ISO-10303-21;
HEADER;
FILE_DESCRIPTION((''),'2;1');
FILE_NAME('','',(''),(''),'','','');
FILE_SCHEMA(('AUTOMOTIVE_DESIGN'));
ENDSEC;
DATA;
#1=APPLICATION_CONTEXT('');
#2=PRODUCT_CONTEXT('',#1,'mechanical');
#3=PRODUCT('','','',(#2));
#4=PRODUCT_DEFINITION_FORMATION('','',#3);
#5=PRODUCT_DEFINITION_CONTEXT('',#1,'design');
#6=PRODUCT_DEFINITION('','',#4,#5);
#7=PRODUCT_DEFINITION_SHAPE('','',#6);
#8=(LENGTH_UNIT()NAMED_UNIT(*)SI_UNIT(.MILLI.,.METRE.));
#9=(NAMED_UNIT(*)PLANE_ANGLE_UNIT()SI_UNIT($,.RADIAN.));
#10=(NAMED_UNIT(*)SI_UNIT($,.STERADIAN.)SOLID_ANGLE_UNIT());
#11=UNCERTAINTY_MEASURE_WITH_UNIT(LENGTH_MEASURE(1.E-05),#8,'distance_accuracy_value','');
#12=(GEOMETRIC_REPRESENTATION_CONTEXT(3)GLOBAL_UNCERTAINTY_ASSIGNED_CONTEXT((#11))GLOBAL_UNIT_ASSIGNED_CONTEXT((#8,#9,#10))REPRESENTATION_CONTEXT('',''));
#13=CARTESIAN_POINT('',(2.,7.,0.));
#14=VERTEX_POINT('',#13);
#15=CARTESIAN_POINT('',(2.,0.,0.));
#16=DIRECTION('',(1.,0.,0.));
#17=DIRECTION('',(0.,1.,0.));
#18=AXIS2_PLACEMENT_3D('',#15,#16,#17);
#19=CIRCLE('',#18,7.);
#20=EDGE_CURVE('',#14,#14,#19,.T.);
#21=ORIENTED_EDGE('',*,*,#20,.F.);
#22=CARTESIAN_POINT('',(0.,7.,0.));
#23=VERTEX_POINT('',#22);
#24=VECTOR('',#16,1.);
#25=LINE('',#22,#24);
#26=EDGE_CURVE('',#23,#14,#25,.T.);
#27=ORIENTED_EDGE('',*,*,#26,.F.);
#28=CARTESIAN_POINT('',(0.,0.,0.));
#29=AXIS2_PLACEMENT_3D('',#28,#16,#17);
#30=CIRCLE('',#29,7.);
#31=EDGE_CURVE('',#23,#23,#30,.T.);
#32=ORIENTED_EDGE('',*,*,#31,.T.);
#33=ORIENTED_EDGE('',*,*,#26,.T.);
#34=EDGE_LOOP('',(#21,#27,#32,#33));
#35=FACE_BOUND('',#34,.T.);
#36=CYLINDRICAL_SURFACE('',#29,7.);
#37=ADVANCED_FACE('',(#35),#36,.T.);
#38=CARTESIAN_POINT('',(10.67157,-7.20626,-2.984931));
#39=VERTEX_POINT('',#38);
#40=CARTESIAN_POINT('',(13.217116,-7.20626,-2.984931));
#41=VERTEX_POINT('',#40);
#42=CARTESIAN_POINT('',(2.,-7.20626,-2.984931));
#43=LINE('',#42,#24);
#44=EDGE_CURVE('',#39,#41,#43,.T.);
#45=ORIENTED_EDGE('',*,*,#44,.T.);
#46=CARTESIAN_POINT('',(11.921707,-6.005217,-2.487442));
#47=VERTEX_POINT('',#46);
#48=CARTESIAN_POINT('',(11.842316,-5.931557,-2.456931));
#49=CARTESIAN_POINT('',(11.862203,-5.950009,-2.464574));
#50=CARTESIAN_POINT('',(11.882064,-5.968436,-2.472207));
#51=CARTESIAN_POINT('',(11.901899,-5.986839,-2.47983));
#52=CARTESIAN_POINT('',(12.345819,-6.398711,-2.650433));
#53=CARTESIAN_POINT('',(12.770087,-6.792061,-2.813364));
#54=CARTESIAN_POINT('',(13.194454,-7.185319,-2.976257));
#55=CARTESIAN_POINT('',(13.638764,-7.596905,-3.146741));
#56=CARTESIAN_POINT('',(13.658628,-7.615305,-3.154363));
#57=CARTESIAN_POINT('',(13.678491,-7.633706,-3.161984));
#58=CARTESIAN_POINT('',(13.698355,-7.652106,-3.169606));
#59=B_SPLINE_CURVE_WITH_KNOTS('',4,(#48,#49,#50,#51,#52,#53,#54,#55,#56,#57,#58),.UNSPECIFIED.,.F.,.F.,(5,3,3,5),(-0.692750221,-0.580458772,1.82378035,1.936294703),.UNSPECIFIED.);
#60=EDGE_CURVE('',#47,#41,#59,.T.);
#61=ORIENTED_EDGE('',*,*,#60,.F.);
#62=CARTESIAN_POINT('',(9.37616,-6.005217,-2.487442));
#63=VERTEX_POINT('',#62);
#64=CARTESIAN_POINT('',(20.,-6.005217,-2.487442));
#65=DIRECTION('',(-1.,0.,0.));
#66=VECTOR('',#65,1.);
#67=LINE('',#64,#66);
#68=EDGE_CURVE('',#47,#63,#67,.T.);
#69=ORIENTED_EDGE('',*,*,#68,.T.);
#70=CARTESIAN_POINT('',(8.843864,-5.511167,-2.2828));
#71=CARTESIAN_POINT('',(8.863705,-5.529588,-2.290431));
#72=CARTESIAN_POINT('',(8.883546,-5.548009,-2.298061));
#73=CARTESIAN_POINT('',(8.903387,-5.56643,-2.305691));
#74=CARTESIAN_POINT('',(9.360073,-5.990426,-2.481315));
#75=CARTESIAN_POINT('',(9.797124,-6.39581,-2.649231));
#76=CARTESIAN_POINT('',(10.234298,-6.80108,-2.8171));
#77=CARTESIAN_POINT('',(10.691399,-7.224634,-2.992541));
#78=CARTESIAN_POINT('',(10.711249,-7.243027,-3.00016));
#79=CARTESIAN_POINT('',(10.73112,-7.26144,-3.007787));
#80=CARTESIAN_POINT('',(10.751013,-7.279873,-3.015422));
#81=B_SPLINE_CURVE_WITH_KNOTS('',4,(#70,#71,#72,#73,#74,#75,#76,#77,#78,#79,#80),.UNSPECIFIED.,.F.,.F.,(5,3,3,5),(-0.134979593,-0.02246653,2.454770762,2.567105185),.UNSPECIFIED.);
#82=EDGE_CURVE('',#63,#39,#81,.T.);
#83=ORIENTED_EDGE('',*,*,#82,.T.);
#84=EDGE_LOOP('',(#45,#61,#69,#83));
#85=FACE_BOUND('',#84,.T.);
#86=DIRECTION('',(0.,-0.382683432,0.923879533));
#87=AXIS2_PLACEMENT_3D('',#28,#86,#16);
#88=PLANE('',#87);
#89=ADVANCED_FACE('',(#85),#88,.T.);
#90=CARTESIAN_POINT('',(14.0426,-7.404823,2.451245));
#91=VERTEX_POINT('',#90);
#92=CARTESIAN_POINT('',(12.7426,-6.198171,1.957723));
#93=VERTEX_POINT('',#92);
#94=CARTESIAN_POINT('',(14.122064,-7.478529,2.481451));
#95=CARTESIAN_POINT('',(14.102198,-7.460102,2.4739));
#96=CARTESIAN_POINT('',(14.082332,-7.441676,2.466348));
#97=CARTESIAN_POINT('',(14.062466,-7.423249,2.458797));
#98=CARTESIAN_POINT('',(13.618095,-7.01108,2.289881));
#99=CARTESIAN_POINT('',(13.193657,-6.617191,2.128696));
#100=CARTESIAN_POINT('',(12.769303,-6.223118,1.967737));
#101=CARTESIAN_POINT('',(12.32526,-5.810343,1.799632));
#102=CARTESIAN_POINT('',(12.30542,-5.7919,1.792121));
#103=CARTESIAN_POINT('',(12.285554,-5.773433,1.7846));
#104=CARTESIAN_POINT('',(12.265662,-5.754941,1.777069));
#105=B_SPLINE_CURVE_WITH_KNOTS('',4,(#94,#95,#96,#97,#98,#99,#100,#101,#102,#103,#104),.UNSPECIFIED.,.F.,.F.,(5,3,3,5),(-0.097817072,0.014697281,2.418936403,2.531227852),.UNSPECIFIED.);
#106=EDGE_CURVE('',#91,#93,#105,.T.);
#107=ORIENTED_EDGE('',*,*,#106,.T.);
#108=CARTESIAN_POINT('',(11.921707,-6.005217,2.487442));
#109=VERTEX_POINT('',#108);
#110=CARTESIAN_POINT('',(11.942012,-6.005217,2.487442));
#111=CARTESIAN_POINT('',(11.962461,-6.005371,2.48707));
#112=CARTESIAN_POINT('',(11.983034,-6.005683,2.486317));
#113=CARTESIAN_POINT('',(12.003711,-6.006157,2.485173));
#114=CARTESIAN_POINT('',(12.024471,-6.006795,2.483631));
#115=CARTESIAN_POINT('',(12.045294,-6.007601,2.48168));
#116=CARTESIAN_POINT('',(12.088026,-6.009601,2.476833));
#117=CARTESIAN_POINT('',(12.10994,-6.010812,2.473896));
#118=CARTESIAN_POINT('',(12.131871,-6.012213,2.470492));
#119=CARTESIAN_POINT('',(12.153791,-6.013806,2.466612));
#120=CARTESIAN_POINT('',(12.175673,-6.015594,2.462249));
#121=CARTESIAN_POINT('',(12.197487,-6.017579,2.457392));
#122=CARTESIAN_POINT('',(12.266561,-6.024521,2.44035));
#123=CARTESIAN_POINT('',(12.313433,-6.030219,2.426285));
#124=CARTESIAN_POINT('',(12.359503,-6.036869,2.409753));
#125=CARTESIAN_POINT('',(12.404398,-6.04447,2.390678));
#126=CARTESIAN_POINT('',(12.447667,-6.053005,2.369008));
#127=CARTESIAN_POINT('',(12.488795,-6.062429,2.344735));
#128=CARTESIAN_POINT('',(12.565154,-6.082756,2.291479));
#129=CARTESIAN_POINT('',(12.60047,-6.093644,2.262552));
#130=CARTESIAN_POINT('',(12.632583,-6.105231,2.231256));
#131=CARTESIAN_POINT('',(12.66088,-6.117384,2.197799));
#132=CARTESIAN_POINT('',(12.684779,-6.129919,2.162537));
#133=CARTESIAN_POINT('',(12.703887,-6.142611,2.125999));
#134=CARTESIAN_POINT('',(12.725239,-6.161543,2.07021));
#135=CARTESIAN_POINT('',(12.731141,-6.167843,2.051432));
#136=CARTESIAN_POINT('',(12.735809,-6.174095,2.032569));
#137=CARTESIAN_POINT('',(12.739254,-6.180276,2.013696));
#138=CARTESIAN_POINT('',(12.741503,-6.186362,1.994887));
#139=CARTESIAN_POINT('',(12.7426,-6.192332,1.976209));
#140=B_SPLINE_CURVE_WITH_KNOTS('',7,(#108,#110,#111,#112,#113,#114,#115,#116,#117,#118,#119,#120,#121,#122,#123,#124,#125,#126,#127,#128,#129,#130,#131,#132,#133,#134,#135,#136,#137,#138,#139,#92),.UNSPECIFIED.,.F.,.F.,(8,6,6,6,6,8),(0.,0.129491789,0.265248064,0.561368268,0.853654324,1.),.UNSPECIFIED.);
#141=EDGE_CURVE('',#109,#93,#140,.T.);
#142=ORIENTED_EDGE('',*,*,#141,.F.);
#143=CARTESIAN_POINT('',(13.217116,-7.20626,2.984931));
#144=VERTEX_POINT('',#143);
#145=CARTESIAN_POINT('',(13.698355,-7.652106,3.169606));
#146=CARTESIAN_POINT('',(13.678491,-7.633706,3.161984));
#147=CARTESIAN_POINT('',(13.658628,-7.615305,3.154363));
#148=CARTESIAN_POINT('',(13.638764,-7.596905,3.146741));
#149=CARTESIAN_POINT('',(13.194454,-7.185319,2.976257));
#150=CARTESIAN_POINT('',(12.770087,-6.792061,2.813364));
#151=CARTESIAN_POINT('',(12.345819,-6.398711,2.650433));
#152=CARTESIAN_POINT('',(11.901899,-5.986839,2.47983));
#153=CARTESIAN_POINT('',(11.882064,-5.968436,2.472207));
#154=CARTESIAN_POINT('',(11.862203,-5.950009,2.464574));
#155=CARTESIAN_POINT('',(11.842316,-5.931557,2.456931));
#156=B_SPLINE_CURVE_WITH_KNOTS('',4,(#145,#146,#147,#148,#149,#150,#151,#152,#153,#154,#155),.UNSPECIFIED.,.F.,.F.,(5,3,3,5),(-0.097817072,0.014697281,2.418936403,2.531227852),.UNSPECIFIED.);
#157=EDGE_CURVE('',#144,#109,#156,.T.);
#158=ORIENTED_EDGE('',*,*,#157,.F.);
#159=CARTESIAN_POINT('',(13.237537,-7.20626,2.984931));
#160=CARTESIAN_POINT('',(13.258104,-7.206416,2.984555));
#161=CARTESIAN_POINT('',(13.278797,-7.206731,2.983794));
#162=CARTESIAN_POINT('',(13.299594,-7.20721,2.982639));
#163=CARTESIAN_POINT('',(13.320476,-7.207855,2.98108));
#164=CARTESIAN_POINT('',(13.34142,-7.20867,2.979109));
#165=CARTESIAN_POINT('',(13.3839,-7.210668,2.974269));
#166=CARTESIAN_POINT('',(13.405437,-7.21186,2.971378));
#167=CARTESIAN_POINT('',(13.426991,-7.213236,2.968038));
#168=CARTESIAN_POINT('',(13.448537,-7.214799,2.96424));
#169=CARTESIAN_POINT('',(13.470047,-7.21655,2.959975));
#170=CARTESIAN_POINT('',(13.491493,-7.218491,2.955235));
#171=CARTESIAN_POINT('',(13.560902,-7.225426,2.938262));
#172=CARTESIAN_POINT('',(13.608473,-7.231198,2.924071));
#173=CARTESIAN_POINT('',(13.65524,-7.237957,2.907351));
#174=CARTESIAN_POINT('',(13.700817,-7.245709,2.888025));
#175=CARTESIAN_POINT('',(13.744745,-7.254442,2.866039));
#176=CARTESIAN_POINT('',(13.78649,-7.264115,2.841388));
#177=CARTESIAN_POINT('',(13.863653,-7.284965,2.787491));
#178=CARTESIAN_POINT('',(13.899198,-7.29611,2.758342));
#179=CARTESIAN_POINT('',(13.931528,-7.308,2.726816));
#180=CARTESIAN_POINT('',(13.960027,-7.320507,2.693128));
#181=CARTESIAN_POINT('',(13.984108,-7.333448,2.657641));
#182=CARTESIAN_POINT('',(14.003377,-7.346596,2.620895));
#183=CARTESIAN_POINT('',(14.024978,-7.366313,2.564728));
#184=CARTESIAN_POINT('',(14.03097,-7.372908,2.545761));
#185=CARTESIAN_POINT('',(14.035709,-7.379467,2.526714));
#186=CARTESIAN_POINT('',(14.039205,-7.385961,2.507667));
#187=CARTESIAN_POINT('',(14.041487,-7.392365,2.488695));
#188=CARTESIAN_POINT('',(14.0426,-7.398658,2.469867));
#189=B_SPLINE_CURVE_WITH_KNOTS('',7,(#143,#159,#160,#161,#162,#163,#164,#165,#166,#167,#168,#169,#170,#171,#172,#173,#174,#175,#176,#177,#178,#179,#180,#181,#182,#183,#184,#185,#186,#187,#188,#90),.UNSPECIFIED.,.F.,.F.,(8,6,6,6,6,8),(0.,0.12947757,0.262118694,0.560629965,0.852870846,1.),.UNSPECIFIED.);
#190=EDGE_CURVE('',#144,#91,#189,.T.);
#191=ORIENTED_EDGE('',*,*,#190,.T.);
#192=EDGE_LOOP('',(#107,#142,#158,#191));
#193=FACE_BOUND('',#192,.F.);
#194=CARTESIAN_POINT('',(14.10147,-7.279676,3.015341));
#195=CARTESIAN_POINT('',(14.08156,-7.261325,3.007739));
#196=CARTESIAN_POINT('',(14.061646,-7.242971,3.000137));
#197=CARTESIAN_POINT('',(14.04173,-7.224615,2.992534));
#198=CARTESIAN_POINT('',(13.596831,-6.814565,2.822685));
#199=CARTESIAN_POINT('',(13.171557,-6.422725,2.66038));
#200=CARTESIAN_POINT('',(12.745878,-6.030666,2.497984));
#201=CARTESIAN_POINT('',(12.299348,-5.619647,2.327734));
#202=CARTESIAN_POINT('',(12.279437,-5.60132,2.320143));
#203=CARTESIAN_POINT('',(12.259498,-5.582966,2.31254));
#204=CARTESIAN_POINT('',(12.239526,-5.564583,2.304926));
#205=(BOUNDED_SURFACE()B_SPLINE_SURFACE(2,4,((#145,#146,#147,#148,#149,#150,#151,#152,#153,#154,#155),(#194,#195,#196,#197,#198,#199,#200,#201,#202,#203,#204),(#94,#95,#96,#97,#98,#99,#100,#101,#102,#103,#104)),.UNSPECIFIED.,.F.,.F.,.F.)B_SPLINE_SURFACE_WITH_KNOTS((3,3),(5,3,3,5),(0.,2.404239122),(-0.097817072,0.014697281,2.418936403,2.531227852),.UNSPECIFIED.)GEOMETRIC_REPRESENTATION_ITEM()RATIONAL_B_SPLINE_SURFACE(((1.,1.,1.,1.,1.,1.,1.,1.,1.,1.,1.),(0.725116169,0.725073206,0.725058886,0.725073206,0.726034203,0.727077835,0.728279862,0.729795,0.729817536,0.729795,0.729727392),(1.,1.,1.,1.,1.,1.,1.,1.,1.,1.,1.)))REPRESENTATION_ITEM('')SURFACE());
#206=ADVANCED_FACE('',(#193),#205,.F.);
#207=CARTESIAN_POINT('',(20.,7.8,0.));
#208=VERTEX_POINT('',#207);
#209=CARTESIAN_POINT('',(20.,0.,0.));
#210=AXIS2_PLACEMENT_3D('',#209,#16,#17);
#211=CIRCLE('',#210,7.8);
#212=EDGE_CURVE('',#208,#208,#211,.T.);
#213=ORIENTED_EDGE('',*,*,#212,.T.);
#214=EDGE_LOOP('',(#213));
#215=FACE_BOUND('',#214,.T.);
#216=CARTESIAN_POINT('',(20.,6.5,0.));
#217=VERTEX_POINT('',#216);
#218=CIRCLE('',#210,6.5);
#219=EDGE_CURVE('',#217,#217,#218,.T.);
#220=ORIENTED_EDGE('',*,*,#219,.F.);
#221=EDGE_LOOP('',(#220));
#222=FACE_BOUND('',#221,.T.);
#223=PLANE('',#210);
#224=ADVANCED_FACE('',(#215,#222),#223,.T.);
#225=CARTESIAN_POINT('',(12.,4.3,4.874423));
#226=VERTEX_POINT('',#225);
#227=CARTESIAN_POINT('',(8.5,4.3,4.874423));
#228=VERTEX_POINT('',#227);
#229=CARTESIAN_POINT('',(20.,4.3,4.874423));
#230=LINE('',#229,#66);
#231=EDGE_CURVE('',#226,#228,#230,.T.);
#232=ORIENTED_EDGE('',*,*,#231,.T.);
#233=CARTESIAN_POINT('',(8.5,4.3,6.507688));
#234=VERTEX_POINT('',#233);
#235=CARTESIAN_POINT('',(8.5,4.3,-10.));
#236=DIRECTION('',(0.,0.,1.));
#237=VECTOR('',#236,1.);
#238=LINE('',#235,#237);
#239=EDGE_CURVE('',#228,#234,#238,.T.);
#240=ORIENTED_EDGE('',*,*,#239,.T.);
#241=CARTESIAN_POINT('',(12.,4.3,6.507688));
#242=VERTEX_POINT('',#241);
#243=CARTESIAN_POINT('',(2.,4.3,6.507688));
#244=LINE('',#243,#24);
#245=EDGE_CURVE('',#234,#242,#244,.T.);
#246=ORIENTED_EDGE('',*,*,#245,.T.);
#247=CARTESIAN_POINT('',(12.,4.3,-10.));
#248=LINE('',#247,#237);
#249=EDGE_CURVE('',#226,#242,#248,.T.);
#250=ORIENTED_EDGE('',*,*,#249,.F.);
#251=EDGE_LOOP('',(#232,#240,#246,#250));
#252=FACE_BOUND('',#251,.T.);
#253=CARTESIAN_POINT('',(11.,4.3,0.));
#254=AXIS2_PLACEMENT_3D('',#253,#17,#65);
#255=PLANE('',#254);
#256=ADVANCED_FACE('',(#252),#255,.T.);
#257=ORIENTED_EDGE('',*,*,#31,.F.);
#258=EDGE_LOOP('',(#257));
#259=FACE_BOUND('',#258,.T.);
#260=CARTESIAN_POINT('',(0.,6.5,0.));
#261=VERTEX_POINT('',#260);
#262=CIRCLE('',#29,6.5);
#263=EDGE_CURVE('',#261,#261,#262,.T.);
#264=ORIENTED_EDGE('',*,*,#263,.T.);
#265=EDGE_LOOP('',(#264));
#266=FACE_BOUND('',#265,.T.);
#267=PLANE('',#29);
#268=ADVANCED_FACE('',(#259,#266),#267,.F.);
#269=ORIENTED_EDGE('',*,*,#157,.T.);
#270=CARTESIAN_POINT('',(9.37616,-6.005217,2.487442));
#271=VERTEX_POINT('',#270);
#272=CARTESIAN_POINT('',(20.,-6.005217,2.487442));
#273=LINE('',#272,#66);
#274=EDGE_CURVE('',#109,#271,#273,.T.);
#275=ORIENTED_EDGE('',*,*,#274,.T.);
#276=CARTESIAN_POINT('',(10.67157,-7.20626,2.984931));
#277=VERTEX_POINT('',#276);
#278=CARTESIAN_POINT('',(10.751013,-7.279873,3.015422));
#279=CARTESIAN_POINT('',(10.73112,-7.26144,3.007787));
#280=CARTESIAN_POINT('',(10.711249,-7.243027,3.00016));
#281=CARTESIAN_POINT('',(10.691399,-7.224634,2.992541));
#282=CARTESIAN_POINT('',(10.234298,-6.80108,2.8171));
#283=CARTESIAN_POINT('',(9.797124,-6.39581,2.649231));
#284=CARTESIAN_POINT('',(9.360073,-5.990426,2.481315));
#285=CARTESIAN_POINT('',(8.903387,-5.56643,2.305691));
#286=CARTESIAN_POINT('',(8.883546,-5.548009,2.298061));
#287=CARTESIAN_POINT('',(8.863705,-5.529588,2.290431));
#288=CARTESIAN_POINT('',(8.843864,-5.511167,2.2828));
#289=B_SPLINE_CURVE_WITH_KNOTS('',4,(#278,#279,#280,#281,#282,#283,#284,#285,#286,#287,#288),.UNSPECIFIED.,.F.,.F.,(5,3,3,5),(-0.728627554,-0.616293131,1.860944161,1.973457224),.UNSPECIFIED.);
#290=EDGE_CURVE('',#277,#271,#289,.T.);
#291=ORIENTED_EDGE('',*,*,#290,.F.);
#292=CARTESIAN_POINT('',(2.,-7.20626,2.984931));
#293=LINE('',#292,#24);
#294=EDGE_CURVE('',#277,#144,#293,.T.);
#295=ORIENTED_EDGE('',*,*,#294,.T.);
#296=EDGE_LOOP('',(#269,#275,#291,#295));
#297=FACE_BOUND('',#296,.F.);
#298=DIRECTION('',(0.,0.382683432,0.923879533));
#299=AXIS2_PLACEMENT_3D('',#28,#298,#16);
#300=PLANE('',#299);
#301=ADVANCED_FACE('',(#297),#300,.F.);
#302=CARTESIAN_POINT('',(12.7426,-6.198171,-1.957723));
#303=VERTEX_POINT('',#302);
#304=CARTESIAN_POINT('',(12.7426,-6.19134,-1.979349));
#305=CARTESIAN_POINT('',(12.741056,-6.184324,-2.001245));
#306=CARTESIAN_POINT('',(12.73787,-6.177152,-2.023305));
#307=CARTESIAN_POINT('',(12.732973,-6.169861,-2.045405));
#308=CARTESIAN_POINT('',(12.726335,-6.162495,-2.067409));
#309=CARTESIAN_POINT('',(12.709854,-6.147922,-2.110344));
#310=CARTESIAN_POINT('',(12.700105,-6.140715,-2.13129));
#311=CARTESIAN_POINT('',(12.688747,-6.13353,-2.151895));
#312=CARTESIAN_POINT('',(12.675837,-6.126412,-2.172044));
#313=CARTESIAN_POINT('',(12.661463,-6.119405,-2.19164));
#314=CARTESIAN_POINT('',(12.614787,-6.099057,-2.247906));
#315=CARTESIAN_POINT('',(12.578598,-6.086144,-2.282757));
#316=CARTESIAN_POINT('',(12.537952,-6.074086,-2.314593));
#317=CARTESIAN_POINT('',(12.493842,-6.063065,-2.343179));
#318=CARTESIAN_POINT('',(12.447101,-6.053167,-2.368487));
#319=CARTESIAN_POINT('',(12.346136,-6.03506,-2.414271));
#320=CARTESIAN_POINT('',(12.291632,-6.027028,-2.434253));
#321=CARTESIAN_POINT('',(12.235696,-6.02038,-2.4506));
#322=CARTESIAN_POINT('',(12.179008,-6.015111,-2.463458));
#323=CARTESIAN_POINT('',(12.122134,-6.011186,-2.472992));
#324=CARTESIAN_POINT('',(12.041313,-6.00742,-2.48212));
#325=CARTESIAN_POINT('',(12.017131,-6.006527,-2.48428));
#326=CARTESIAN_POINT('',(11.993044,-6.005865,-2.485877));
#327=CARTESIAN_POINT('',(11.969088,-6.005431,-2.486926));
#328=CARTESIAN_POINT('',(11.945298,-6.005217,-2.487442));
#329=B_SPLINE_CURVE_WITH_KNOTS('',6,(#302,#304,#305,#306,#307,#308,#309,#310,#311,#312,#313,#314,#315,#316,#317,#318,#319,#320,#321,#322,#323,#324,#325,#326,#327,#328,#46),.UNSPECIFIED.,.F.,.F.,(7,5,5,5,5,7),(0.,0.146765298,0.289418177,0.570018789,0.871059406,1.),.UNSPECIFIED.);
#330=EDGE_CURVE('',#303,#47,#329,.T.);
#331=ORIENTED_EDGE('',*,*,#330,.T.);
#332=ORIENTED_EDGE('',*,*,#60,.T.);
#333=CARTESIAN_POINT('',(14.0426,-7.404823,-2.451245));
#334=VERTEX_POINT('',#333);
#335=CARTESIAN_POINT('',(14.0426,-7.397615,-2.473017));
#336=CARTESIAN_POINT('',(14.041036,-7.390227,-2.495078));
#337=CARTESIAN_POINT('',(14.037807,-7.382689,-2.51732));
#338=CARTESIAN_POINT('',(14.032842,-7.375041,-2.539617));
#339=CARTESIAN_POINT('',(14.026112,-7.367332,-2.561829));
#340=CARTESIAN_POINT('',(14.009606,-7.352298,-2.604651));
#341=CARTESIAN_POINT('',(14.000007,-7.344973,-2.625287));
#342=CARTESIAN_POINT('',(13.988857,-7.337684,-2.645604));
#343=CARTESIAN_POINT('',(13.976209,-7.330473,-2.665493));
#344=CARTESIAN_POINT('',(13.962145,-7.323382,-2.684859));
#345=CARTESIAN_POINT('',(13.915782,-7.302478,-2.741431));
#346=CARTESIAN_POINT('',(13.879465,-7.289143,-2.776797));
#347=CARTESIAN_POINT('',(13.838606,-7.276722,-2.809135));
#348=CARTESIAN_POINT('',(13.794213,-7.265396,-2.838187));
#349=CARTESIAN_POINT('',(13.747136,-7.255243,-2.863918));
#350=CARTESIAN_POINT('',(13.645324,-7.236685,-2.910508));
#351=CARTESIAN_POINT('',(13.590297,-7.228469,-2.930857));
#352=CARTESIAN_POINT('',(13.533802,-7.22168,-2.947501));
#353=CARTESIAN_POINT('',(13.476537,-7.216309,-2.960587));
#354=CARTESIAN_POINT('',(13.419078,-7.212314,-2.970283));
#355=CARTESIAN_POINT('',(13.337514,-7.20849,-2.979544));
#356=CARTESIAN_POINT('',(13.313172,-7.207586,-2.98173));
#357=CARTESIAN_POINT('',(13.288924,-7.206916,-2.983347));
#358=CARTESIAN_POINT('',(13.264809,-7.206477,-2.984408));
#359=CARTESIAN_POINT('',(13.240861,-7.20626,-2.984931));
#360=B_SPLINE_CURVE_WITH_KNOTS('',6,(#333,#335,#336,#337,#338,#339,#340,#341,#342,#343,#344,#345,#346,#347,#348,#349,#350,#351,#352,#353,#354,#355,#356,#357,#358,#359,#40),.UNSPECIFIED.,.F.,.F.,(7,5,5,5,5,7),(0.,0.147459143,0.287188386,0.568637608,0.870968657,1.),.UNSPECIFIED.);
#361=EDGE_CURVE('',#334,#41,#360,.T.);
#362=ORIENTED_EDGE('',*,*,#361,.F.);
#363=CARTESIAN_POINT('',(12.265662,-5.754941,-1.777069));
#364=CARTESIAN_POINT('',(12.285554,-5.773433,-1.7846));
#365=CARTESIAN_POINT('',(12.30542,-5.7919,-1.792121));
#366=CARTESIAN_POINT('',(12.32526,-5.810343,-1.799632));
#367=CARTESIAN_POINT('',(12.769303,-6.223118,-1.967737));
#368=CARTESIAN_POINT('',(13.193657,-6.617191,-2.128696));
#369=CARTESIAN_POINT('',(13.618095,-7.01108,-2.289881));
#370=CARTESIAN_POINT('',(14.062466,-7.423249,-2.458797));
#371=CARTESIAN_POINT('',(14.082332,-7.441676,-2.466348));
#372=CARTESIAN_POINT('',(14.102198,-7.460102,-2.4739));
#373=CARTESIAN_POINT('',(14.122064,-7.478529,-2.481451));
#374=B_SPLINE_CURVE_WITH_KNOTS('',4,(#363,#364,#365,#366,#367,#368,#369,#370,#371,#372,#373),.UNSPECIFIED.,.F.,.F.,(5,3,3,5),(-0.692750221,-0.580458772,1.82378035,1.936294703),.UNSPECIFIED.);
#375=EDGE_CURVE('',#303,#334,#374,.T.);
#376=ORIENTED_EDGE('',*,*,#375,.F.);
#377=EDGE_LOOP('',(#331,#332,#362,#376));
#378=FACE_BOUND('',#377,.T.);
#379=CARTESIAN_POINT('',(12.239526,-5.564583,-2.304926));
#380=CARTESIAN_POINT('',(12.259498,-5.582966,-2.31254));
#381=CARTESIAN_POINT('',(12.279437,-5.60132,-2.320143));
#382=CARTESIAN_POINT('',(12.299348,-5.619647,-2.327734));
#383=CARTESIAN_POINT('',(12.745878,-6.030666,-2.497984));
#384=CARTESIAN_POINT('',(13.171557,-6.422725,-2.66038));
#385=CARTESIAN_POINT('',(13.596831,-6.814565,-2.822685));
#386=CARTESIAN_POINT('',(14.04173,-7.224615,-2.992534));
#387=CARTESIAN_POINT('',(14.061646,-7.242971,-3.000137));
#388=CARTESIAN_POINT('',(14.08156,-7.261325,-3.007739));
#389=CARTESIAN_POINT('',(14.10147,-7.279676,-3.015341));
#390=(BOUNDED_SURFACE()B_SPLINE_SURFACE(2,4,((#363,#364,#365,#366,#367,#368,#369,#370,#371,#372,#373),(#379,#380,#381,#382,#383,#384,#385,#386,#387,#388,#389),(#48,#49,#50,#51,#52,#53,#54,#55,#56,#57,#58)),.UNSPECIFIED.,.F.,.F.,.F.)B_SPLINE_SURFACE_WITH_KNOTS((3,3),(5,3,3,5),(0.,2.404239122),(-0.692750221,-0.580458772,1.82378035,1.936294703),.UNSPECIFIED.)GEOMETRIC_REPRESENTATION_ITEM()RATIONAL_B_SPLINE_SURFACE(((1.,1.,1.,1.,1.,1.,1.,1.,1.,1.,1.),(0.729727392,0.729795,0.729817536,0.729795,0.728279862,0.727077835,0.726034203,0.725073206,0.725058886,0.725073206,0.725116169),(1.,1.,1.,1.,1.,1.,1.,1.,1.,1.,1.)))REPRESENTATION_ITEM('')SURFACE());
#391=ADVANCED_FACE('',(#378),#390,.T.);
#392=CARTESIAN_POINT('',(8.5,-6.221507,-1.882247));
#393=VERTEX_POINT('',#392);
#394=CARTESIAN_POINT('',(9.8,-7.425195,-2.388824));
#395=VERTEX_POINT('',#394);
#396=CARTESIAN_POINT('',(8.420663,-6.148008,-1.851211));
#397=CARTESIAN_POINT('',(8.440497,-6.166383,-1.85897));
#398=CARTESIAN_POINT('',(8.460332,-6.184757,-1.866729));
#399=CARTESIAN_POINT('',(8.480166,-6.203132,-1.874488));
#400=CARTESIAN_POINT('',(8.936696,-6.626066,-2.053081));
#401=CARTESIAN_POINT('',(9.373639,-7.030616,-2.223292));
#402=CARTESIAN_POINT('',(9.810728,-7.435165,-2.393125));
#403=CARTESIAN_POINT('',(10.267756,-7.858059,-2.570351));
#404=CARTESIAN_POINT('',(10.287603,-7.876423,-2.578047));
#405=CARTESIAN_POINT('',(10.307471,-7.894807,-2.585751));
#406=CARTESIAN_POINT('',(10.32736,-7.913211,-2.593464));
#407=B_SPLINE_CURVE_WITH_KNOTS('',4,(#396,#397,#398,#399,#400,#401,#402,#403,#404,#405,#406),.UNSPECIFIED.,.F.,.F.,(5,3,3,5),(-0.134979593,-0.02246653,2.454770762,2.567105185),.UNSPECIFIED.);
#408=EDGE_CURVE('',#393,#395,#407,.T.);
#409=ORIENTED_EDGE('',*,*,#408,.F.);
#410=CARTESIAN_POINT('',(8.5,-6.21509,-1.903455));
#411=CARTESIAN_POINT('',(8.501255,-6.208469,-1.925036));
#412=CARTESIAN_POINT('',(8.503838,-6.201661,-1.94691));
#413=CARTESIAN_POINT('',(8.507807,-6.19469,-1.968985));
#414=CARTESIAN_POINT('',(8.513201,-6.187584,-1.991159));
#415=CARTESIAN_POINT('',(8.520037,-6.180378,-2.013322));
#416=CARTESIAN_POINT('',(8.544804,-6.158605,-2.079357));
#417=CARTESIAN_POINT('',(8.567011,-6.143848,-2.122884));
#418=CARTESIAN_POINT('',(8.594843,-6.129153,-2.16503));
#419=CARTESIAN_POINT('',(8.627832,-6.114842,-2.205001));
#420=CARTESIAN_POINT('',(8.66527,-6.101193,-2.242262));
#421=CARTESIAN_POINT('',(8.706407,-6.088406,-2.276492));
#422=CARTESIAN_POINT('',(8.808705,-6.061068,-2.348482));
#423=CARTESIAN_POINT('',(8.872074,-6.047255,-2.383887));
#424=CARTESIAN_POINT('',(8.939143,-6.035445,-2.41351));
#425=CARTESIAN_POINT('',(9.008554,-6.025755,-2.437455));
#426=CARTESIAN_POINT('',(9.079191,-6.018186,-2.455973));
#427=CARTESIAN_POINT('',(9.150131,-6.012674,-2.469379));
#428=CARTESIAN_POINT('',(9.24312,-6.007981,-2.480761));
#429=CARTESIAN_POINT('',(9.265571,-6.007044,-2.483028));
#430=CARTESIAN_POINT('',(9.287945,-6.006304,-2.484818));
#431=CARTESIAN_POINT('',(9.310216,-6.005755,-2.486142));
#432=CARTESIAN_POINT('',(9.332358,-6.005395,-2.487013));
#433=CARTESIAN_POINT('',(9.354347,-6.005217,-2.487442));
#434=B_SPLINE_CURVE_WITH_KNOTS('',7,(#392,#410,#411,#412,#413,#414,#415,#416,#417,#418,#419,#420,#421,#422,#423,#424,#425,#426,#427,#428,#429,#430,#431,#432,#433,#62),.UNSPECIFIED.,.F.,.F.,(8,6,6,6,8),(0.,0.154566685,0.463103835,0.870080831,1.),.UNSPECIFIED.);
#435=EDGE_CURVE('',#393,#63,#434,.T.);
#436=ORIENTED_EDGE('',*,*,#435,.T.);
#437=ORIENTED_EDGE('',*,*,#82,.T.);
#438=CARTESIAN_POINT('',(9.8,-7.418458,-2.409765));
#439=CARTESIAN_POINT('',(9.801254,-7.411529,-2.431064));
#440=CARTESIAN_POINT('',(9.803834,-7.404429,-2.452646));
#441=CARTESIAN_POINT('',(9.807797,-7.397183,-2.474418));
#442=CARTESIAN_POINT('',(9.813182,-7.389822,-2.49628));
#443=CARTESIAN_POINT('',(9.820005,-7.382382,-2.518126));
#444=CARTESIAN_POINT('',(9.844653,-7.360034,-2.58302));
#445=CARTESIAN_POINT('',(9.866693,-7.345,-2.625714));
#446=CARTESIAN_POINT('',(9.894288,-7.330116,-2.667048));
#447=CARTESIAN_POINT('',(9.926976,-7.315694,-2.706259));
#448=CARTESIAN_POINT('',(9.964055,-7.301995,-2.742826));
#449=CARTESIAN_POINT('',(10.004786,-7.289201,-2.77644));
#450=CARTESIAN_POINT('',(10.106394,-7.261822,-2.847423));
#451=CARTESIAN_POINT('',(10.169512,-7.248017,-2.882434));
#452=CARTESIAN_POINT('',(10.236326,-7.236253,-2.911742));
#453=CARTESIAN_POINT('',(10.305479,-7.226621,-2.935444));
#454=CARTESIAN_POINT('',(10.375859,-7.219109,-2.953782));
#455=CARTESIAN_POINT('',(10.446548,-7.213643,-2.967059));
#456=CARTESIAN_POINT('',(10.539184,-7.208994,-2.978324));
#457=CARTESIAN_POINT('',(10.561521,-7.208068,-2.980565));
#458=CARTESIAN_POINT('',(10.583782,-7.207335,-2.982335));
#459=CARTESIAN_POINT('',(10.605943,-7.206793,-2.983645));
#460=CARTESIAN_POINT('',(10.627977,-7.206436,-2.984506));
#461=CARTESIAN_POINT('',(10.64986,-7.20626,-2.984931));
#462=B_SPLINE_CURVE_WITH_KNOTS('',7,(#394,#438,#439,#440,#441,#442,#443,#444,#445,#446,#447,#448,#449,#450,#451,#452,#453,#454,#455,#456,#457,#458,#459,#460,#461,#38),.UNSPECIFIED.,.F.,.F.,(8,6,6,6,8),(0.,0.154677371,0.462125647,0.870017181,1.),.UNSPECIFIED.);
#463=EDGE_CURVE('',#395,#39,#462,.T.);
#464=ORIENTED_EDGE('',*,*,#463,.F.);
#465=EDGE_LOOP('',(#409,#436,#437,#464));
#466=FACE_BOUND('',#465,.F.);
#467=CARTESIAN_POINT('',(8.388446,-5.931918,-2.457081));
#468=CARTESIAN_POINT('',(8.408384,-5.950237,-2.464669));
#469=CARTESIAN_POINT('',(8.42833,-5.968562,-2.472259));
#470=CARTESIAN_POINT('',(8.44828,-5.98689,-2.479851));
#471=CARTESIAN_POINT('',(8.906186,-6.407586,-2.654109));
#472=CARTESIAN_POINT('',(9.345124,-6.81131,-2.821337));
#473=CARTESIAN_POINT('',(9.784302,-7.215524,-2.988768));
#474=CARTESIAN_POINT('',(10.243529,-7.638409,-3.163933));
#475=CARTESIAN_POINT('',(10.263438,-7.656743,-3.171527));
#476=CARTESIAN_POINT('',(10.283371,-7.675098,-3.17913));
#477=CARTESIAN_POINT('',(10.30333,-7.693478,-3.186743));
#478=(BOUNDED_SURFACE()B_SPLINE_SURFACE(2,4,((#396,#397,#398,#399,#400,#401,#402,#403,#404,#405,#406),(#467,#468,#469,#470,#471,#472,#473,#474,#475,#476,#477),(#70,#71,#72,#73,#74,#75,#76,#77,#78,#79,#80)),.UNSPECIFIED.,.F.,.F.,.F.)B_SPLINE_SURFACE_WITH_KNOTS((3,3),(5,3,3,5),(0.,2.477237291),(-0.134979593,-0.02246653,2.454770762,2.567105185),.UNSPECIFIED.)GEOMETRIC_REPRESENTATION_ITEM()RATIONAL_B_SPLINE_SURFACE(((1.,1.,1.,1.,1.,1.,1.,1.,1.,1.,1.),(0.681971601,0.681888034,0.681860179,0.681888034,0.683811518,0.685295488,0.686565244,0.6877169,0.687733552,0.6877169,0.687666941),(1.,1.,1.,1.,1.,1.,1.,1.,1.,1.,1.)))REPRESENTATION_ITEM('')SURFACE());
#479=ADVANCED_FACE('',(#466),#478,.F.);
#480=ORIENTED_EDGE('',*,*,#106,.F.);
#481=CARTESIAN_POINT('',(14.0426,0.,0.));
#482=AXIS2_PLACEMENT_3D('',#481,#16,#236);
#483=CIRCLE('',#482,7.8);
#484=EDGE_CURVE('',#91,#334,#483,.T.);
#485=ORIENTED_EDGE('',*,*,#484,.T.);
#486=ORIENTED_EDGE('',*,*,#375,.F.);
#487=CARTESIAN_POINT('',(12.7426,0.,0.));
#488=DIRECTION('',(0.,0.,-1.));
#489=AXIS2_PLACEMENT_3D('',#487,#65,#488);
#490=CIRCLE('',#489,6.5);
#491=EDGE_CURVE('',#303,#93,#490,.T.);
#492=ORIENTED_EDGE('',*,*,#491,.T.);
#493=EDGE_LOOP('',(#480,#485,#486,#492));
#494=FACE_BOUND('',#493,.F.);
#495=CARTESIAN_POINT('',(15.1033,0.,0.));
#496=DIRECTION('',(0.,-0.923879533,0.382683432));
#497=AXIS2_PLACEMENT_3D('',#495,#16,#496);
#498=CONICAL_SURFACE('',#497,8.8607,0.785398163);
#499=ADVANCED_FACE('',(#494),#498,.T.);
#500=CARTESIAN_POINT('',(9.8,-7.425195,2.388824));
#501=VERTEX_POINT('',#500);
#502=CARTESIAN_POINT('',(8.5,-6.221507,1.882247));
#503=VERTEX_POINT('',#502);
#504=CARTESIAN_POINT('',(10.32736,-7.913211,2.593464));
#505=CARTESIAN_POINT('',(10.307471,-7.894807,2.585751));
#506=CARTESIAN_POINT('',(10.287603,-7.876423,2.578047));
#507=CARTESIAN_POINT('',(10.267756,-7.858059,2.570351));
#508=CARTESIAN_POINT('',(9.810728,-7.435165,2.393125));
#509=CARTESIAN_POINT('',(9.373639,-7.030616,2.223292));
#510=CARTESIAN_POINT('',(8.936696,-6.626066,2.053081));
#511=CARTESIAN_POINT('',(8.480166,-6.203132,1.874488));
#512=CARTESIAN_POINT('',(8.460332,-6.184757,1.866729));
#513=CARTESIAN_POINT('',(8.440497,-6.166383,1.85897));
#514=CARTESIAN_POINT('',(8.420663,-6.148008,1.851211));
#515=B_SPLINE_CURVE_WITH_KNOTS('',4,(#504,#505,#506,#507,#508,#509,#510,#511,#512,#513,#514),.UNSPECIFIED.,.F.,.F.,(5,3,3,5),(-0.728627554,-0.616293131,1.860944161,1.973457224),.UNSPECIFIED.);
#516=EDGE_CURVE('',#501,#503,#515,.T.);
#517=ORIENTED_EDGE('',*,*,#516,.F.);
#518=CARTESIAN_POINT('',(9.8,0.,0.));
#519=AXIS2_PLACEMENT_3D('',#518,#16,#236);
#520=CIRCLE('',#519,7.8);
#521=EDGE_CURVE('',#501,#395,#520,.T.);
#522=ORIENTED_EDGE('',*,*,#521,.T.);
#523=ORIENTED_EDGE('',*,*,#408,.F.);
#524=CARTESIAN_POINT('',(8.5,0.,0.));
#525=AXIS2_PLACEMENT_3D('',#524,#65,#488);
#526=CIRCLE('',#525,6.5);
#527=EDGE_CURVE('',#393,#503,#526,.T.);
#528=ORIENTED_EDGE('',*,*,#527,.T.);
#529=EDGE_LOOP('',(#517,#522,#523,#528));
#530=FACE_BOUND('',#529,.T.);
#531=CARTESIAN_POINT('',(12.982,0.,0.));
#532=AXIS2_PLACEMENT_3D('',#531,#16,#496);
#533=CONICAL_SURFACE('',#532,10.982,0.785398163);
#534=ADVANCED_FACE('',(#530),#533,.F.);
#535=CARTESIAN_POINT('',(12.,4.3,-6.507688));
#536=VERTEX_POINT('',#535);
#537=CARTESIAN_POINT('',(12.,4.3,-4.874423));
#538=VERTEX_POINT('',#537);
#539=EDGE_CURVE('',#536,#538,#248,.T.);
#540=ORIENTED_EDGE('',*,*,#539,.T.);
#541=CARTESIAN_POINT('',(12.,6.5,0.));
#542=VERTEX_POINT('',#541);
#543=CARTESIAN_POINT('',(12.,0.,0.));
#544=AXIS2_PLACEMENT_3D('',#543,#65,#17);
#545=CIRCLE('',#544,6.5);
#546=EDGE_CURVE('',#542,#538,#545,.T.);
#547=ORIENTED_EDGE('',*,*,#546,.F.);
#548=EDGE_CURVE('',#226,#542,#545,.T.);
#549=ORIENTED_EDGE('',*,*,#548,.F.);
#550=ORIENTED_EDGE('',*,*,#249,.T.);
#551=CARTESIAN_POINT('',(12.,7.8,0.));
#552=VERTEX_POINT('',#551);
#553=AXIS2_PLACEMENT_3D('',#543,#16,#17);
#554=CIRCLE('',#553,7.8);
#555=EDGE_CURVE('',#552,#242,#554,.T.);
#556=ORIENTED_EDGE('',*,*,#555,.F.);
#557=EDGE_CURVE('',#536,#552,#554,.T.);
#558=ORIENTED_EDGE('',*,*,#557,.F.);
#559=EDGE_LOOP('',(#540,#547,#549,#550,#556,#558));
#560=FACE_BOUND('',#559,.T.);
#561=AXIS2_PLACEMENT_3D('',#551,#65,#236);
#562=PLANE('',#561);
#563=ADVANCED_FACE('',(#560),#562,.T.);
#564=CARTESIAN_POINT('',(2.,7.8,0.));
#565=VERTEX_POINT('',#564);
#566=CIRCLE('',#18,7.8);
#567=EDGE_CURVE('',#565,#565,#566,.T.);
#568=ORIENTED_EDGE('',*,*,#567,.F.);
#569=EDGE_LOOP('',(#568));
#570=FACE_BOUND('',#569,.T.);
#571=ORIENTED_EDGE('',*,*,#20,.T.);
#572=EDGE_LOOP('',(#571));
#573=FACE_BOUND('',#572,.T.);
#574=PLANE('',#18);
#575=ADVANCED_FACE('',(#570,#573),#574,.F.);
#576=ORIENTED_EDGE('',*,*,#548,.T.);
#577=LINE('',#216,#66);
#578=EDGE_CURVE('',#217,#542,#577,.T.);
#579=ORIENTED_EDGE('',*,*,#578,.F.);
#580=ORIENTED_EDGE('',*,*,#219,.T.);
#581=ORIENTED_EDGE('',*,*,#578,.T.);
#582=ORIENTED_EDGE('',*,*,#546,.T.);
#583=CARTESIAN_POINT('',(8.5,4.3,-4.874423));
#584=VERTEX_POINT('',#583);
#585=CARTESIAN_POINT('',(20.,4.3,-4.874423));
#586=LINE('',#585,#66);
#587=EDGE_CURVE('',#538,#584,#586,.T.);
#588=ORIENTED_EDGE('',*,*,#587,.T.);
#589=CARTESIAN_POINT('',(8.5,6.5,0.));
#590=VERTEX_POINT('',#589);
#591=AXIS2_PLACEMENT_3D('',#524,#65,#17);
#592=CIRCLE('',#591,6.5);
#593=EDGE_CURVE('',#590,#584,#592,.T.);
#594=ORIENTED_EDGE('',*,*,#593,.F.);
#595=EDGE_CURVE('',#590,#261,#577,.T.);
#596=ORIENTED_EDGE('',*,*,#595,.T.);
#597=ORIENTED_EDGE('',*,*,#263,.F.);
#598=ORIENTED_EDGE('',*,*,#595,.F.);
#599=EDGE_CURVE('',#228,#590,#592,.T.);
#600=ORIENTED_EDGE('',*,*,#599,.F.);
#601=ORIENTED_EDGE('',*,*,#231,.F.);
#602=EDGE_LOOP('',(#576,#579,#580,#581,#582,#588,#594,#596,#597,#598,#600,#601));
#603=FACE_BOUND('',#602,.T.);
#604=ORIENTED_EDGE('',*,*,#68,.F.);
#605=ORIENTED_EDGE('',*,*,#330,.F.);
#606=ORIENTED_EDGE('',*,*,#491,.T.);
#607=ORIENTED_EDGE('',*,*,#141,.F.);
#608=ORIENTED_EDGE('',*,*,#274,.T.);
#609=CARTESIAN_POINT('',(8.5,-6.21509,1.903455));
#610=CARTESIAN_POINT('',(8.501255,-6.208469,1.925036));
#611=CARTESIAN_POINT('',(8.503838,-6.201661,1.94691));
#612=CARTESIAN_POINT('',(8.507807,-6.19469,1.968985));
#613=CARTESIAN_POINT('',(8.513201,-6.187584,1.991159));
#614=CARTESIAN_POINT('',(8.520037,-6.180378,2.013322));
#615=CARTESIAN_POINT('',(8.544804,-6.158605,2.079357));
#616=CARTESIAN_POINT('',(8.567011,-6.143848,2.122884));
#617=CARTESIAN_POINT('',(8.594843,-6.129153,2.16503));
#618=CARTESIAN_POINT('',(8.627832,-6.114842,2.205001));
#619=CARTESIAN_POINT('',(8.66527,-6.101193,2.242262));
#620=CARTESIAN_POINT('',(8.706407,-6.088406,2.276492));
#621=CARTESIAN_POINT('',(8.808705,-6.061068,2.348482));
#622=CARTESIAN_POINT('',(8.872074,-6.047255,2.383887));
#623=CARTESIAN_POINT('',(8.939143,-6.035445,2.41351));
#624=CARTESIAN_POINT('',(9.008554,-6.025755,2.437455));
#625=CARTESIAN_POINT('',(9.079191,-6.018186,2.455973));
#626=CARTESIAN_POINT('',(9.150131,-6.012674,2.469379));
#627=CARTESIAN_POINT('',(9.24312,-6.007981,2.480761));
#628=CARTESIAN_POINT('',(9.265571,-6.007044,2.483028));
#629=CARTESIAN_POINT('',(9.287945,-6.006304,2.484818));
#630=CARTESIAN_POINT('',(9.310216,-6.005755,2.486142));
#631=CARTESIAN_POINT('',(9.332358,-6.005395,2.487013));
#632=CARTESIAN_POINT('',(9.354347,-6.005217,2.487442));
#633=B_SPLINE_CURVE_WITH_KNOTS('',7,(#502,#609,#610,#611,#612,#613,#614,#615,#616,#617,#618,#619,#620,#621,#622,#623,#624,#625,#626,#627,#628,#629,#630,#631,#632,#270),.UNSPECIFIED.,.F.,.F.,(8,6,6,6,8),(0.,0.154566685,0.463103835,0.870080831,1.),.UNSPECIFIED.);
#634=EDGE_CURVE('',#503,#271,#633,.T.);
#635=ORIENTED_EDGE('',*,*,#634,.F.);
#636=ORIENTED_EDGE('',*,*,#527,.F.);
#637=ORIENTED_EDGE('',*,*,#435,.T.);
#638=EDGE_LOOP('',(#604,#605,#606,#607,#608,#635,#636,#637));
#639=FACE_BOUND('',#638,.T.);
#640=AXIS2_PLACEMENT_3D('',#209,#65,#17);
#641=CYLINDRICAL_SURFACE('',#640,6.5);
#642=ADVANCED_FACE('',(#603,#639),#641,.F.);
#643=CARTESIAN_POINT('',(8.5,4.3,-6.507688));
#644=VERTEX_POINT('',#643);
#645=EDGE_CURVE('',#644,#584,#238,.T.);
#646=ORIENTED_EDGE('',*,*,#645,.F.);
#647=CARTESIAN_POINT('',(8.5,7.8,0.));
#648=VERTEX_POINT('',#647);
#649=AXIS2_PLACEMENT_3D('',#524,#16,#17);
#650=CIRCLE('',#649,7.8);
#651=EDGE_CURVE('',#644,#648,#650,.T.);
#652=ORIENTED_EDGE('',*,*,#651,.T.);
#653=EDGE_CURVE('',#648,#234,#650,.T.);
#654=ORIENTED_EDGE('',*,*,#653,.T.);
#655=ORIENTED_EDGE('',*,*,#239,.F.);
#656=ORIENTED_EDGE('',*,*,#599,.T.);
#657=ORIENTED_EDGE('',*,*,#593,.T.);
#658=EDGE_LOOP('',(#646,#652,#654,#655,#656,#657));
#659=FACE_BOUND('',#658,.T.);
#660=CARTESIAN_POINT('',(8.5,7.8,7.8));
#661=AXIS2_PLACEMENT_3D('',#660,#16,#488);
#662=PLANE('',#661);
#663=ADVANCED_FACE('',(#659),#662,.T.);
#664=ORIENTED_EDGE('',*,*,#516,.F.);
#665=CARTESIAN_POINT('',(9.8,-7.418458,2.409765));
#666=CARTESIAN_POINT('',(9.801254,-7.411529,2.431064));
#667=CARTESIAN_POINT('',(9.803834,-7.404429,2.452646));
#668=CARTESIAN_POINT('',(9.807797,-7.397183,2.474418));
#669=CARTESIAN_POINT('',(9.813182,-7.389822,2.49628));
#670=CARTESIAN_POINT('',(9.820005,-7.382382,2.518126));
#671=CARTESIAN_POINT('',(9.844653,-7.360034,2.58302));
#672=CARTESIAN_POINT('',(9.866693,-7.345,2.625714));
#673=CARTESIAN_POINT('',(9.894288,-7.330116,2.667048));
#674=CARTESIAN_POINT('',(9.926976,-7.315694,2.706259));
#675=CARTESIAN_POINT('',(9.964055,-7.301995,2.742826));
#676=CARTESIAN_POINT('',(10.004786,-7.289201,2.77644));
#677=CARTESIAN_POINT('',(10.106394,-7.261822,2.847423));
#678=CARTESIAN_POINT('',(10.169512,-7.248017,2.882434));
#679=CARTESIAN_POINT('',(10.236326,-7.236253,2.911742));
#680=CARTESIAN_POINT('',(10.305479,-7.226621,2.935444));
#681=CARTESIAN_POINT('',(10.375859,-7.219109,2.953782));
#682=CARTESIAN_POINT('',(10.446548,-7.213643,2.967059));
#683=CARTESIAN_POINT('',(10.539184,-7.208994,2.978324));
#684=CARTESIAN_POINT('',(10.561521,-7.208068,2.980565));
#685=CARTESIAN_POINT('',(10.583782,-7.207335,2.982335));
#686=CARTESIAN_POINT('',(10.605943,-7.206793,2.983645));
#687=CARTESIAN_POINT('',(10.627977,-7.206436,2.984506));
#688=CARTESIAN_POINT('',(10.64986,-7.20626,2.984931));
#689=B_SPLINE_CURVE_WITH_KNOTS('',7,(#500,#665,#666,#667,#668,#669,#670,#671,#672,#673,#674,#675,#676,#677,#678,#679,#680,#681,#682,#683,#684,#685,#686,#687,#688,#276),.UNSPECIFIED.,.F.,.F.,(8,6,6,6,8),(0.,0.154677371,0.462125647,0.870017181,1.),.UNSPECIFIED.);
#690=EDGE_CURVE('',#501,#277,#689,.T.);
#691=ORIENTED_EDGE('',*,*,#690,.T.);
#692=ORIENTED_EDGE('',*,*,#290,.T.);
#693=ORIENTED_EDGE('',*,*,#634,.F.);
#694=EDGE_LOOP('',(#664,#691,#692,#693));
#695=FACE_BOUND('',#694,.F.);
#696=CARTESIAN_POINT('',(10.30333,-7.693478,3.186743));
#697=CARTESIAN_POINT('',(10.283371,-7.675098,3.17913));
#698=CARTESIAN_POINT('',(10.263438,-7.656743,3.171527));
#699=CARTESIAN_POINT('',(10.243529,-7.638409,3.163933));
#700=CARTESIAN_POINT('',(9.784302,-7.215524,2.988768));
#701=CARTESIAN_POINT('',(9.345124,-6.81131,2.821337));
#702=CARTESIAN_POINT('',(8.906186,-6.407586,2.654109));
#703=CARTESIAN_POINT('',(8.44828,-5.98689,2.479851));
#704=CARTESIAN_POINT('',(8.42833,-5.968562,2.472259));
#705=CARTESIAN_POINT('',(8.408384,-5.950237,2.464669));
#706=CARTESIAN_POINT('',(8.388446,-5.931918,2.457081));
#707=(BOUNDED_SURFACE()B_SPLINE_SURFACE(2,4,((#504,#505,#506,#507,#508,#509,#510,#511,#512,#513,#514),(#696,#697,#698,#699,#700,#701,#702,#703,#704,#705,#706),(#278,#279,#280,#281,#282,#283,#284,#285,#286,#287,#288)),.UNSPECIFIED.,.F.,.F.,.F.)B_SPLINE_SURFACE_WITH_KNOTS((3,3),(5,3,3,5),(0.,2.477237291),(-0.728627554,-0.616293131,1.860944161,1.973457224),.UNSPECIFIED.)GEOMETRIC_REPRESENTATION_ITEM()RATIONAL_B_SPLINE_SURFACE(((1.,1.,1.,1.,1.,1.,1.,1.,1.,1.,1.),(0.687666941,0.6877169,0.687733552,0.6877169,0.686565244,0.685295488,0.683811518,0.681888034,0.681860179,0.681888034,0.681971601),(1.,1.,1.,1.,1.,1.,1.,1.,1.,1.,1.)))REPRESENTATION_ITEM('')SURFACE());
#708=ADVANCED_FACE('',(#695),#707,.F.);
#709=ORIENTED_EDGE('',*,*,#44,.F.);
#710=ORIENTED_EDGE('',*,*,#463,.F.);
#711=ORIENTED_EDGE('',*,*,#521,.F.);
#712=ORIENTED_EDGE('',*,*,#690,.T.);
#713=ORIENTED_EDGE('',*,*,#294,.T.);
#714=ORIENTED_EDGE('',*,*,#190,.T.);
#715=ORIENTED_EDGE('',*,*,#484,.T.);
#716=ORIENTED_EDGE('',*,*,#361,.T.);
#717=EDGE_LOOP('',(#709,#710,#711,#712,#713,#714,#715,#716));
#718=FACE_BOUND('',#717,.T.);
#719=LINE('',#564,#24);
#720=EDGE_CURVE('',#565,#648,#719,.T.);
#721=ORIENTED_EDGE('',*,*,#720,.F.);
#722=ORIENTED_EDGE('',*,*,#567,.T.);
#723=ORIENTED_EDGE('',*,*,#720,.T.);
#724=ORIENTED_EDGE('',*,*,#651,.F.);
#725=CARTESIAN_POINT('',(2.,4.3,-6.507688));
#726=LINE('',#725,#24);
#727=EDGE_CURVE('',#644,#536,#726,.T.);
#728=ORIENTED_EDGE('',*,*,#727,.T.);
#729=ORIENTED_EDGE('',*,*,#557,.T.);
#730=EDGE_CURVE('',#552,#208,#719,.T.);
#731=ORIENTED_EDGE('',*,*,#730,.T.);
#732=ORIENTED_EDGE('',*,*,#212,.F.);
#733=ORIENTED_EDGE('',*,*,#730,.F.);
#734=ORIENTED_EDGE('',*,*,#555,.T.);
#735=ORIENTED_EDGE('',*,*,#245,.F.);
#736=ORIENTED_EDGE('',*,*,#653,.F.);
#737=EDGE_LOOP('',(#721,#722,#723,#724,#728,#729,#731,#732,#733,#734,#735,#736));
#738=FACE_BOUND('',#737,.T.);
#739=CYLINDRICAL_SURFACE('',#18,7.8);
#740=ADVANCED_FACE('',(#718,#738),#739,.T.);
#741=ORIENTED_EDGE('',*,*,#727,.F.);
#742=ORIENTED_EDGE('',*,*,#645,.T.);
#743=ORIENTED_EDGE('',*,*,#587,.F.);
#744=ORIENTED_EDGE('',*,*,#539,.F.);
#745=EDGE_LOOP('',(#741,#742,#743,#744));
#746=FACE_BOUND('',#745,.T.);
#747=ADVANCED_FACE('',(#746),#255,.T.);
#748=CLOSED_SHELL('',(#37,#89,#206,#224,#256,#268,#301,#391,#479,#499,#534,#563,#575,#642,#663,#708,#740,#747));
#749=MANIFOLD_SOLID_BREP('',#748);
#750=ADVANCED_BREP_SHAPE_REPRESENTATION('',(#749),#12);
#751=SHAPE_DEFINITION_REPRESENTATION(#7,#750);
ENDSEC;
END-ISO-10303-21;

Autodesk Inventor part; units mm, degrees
ref_plane "YZ-Ebene" through (0, 0, 0) normal (1, 0, 0) x (0, 1, 0)
ref_plane "XY-Ebene" through (0, 0, 0) normal (0, 0, 1) x (1, 0, 0)
sketch "Skizze1" plane through (0, 0, 0) normal (0, 0, 1) x (1, 0, 0)
  line L0 (-4, 0) -> (24, 0) projected
  line L1 (0, -1.56) -> (0, 9.36) projected
  line L2 (0, 7) -> (2, 7)
  line L3 (2, 7) -> (2, 7.8)
  line L4 (2, 7.8) -> (20, 7.8)
  line L5 (20, 7.8) -> (20, 6.5)
  line L6 (20, 6.5) -> (0, 6.5)
  line L7 (0, 7) -> (0, 6.5)
  point P0 (0, 0)
  dimension "d0" = 6.5
  dimension "d1" = 7.8
  dimension "d2" = 7
  dimension "d3" = 2
  dimension "d4" = 20
revolve "Umdrehung1" add sketch "Skizze1" angle 360 about axis through (-10, 0, 0) along (1, 0, 0)
ref_plane "Arbeitsebene1" through (11, 7.8, 0) normal (0, 1, 0) x (-1, 0, 0)
sketch "Skizze2" plane through (11, 7.8, 0) normal (0, 1, 0) x (-1, 0, 0)
  line L0 (9, 7.8) -> (9, -7.8) projected
  line L1 (-9, 7.8) -> (-9, -7.8) projected
  line L2 (9, -7.8) -> (-9, -7.8) projected
  line L3 (9, 7.8) -> (-9, 7.8) projected
  line L4 (2.5, 10) -> (2.5, -10)
  line L5 (2.5, -10) -> (-1, -10)
  line L6 (-1, -10) -> (-1, 10)
  line L7 (-1, 10) -> (2.5, 10)
  line L8 (11, 7) -> (11, -7) projected
  line L9 (15, 0) -> (-13, 0) projected
  point P0 (11, 0)
  dimension "d6" = 20
  dimension "d7" = 3.5
  dimension "d8" = 8.5
extrude "Extrusion1" cut sketch "Skizze2" against normal blind 3.5 contours L4 L9 L6 L3 | L3 L6 L7 L4 | L4 L2 L6 L9 | L4 L5 L6 L2
sketch "Skizze3" plane through (0, 0, 0) normal (0, 0, 1) x (1, 0, 0)
  point P0 (0, 0)
sketch "Skizze4" plane through (0, 0, 0) normal (1, 0, 0) x (0, 1, 0)
  point P0 (0, 0)
sketch "Skizze5" plane through (0, 0, 0) normal (0, 0, 1) x (1, 0, 0)
  point P0 (0, 0)
sketch "Skizze6" plane through (0, 0, 0) normal (0, 0, 1) x (1, 0, 0)
  point P0 (0, 0)
sketch "Skizze7" plane through (0, 0, 0) normal (0, 0, 1) x (1, 0, 0)
  line L0 (2, -7.8) -> (20, -7.8) projected
  line L1 (12.982, -10.982) -> (6.618, -4.618)
  line L2 (15.1033, -8.8607) -> (12.982, -10.982)
  line L3 (6.618, -4.618) -> (8.7393, -2.4967)
  line L4 (15.1033, -8.8607) -> (8.7393, -2.4967)
  line L5 (20, -6.5) -> (20, 6.5) projected
  line L6 (-4, 0) -> (24, 0) projected
  point P0 (0, 0)
  point P1 (9.8, -7.8)
  dimension "d12" = 9
  dimension "d13" = 3
  dimension "d14" = 10.2
  dimension "d19" = 9
  dimension "d20" = 3
  dimension "d21" = 45
revolve "Umdrehung2" cut sketch "Skizze7" angle 45 mid plane about axis through (-10, 0, 0) along (1, 0, 0)
fillet "Rundung1" radius 0.6 4 edges at (13.3926, -6.6057, -2.7362) (13.3926, -6.6057, 2.7362) (9.15, -6.6057, 2.7362) (9.15, -6.6057, -2.7362)
properties part number "Zylinderbuchse_ra8846s" material "Stahl, Guss"
